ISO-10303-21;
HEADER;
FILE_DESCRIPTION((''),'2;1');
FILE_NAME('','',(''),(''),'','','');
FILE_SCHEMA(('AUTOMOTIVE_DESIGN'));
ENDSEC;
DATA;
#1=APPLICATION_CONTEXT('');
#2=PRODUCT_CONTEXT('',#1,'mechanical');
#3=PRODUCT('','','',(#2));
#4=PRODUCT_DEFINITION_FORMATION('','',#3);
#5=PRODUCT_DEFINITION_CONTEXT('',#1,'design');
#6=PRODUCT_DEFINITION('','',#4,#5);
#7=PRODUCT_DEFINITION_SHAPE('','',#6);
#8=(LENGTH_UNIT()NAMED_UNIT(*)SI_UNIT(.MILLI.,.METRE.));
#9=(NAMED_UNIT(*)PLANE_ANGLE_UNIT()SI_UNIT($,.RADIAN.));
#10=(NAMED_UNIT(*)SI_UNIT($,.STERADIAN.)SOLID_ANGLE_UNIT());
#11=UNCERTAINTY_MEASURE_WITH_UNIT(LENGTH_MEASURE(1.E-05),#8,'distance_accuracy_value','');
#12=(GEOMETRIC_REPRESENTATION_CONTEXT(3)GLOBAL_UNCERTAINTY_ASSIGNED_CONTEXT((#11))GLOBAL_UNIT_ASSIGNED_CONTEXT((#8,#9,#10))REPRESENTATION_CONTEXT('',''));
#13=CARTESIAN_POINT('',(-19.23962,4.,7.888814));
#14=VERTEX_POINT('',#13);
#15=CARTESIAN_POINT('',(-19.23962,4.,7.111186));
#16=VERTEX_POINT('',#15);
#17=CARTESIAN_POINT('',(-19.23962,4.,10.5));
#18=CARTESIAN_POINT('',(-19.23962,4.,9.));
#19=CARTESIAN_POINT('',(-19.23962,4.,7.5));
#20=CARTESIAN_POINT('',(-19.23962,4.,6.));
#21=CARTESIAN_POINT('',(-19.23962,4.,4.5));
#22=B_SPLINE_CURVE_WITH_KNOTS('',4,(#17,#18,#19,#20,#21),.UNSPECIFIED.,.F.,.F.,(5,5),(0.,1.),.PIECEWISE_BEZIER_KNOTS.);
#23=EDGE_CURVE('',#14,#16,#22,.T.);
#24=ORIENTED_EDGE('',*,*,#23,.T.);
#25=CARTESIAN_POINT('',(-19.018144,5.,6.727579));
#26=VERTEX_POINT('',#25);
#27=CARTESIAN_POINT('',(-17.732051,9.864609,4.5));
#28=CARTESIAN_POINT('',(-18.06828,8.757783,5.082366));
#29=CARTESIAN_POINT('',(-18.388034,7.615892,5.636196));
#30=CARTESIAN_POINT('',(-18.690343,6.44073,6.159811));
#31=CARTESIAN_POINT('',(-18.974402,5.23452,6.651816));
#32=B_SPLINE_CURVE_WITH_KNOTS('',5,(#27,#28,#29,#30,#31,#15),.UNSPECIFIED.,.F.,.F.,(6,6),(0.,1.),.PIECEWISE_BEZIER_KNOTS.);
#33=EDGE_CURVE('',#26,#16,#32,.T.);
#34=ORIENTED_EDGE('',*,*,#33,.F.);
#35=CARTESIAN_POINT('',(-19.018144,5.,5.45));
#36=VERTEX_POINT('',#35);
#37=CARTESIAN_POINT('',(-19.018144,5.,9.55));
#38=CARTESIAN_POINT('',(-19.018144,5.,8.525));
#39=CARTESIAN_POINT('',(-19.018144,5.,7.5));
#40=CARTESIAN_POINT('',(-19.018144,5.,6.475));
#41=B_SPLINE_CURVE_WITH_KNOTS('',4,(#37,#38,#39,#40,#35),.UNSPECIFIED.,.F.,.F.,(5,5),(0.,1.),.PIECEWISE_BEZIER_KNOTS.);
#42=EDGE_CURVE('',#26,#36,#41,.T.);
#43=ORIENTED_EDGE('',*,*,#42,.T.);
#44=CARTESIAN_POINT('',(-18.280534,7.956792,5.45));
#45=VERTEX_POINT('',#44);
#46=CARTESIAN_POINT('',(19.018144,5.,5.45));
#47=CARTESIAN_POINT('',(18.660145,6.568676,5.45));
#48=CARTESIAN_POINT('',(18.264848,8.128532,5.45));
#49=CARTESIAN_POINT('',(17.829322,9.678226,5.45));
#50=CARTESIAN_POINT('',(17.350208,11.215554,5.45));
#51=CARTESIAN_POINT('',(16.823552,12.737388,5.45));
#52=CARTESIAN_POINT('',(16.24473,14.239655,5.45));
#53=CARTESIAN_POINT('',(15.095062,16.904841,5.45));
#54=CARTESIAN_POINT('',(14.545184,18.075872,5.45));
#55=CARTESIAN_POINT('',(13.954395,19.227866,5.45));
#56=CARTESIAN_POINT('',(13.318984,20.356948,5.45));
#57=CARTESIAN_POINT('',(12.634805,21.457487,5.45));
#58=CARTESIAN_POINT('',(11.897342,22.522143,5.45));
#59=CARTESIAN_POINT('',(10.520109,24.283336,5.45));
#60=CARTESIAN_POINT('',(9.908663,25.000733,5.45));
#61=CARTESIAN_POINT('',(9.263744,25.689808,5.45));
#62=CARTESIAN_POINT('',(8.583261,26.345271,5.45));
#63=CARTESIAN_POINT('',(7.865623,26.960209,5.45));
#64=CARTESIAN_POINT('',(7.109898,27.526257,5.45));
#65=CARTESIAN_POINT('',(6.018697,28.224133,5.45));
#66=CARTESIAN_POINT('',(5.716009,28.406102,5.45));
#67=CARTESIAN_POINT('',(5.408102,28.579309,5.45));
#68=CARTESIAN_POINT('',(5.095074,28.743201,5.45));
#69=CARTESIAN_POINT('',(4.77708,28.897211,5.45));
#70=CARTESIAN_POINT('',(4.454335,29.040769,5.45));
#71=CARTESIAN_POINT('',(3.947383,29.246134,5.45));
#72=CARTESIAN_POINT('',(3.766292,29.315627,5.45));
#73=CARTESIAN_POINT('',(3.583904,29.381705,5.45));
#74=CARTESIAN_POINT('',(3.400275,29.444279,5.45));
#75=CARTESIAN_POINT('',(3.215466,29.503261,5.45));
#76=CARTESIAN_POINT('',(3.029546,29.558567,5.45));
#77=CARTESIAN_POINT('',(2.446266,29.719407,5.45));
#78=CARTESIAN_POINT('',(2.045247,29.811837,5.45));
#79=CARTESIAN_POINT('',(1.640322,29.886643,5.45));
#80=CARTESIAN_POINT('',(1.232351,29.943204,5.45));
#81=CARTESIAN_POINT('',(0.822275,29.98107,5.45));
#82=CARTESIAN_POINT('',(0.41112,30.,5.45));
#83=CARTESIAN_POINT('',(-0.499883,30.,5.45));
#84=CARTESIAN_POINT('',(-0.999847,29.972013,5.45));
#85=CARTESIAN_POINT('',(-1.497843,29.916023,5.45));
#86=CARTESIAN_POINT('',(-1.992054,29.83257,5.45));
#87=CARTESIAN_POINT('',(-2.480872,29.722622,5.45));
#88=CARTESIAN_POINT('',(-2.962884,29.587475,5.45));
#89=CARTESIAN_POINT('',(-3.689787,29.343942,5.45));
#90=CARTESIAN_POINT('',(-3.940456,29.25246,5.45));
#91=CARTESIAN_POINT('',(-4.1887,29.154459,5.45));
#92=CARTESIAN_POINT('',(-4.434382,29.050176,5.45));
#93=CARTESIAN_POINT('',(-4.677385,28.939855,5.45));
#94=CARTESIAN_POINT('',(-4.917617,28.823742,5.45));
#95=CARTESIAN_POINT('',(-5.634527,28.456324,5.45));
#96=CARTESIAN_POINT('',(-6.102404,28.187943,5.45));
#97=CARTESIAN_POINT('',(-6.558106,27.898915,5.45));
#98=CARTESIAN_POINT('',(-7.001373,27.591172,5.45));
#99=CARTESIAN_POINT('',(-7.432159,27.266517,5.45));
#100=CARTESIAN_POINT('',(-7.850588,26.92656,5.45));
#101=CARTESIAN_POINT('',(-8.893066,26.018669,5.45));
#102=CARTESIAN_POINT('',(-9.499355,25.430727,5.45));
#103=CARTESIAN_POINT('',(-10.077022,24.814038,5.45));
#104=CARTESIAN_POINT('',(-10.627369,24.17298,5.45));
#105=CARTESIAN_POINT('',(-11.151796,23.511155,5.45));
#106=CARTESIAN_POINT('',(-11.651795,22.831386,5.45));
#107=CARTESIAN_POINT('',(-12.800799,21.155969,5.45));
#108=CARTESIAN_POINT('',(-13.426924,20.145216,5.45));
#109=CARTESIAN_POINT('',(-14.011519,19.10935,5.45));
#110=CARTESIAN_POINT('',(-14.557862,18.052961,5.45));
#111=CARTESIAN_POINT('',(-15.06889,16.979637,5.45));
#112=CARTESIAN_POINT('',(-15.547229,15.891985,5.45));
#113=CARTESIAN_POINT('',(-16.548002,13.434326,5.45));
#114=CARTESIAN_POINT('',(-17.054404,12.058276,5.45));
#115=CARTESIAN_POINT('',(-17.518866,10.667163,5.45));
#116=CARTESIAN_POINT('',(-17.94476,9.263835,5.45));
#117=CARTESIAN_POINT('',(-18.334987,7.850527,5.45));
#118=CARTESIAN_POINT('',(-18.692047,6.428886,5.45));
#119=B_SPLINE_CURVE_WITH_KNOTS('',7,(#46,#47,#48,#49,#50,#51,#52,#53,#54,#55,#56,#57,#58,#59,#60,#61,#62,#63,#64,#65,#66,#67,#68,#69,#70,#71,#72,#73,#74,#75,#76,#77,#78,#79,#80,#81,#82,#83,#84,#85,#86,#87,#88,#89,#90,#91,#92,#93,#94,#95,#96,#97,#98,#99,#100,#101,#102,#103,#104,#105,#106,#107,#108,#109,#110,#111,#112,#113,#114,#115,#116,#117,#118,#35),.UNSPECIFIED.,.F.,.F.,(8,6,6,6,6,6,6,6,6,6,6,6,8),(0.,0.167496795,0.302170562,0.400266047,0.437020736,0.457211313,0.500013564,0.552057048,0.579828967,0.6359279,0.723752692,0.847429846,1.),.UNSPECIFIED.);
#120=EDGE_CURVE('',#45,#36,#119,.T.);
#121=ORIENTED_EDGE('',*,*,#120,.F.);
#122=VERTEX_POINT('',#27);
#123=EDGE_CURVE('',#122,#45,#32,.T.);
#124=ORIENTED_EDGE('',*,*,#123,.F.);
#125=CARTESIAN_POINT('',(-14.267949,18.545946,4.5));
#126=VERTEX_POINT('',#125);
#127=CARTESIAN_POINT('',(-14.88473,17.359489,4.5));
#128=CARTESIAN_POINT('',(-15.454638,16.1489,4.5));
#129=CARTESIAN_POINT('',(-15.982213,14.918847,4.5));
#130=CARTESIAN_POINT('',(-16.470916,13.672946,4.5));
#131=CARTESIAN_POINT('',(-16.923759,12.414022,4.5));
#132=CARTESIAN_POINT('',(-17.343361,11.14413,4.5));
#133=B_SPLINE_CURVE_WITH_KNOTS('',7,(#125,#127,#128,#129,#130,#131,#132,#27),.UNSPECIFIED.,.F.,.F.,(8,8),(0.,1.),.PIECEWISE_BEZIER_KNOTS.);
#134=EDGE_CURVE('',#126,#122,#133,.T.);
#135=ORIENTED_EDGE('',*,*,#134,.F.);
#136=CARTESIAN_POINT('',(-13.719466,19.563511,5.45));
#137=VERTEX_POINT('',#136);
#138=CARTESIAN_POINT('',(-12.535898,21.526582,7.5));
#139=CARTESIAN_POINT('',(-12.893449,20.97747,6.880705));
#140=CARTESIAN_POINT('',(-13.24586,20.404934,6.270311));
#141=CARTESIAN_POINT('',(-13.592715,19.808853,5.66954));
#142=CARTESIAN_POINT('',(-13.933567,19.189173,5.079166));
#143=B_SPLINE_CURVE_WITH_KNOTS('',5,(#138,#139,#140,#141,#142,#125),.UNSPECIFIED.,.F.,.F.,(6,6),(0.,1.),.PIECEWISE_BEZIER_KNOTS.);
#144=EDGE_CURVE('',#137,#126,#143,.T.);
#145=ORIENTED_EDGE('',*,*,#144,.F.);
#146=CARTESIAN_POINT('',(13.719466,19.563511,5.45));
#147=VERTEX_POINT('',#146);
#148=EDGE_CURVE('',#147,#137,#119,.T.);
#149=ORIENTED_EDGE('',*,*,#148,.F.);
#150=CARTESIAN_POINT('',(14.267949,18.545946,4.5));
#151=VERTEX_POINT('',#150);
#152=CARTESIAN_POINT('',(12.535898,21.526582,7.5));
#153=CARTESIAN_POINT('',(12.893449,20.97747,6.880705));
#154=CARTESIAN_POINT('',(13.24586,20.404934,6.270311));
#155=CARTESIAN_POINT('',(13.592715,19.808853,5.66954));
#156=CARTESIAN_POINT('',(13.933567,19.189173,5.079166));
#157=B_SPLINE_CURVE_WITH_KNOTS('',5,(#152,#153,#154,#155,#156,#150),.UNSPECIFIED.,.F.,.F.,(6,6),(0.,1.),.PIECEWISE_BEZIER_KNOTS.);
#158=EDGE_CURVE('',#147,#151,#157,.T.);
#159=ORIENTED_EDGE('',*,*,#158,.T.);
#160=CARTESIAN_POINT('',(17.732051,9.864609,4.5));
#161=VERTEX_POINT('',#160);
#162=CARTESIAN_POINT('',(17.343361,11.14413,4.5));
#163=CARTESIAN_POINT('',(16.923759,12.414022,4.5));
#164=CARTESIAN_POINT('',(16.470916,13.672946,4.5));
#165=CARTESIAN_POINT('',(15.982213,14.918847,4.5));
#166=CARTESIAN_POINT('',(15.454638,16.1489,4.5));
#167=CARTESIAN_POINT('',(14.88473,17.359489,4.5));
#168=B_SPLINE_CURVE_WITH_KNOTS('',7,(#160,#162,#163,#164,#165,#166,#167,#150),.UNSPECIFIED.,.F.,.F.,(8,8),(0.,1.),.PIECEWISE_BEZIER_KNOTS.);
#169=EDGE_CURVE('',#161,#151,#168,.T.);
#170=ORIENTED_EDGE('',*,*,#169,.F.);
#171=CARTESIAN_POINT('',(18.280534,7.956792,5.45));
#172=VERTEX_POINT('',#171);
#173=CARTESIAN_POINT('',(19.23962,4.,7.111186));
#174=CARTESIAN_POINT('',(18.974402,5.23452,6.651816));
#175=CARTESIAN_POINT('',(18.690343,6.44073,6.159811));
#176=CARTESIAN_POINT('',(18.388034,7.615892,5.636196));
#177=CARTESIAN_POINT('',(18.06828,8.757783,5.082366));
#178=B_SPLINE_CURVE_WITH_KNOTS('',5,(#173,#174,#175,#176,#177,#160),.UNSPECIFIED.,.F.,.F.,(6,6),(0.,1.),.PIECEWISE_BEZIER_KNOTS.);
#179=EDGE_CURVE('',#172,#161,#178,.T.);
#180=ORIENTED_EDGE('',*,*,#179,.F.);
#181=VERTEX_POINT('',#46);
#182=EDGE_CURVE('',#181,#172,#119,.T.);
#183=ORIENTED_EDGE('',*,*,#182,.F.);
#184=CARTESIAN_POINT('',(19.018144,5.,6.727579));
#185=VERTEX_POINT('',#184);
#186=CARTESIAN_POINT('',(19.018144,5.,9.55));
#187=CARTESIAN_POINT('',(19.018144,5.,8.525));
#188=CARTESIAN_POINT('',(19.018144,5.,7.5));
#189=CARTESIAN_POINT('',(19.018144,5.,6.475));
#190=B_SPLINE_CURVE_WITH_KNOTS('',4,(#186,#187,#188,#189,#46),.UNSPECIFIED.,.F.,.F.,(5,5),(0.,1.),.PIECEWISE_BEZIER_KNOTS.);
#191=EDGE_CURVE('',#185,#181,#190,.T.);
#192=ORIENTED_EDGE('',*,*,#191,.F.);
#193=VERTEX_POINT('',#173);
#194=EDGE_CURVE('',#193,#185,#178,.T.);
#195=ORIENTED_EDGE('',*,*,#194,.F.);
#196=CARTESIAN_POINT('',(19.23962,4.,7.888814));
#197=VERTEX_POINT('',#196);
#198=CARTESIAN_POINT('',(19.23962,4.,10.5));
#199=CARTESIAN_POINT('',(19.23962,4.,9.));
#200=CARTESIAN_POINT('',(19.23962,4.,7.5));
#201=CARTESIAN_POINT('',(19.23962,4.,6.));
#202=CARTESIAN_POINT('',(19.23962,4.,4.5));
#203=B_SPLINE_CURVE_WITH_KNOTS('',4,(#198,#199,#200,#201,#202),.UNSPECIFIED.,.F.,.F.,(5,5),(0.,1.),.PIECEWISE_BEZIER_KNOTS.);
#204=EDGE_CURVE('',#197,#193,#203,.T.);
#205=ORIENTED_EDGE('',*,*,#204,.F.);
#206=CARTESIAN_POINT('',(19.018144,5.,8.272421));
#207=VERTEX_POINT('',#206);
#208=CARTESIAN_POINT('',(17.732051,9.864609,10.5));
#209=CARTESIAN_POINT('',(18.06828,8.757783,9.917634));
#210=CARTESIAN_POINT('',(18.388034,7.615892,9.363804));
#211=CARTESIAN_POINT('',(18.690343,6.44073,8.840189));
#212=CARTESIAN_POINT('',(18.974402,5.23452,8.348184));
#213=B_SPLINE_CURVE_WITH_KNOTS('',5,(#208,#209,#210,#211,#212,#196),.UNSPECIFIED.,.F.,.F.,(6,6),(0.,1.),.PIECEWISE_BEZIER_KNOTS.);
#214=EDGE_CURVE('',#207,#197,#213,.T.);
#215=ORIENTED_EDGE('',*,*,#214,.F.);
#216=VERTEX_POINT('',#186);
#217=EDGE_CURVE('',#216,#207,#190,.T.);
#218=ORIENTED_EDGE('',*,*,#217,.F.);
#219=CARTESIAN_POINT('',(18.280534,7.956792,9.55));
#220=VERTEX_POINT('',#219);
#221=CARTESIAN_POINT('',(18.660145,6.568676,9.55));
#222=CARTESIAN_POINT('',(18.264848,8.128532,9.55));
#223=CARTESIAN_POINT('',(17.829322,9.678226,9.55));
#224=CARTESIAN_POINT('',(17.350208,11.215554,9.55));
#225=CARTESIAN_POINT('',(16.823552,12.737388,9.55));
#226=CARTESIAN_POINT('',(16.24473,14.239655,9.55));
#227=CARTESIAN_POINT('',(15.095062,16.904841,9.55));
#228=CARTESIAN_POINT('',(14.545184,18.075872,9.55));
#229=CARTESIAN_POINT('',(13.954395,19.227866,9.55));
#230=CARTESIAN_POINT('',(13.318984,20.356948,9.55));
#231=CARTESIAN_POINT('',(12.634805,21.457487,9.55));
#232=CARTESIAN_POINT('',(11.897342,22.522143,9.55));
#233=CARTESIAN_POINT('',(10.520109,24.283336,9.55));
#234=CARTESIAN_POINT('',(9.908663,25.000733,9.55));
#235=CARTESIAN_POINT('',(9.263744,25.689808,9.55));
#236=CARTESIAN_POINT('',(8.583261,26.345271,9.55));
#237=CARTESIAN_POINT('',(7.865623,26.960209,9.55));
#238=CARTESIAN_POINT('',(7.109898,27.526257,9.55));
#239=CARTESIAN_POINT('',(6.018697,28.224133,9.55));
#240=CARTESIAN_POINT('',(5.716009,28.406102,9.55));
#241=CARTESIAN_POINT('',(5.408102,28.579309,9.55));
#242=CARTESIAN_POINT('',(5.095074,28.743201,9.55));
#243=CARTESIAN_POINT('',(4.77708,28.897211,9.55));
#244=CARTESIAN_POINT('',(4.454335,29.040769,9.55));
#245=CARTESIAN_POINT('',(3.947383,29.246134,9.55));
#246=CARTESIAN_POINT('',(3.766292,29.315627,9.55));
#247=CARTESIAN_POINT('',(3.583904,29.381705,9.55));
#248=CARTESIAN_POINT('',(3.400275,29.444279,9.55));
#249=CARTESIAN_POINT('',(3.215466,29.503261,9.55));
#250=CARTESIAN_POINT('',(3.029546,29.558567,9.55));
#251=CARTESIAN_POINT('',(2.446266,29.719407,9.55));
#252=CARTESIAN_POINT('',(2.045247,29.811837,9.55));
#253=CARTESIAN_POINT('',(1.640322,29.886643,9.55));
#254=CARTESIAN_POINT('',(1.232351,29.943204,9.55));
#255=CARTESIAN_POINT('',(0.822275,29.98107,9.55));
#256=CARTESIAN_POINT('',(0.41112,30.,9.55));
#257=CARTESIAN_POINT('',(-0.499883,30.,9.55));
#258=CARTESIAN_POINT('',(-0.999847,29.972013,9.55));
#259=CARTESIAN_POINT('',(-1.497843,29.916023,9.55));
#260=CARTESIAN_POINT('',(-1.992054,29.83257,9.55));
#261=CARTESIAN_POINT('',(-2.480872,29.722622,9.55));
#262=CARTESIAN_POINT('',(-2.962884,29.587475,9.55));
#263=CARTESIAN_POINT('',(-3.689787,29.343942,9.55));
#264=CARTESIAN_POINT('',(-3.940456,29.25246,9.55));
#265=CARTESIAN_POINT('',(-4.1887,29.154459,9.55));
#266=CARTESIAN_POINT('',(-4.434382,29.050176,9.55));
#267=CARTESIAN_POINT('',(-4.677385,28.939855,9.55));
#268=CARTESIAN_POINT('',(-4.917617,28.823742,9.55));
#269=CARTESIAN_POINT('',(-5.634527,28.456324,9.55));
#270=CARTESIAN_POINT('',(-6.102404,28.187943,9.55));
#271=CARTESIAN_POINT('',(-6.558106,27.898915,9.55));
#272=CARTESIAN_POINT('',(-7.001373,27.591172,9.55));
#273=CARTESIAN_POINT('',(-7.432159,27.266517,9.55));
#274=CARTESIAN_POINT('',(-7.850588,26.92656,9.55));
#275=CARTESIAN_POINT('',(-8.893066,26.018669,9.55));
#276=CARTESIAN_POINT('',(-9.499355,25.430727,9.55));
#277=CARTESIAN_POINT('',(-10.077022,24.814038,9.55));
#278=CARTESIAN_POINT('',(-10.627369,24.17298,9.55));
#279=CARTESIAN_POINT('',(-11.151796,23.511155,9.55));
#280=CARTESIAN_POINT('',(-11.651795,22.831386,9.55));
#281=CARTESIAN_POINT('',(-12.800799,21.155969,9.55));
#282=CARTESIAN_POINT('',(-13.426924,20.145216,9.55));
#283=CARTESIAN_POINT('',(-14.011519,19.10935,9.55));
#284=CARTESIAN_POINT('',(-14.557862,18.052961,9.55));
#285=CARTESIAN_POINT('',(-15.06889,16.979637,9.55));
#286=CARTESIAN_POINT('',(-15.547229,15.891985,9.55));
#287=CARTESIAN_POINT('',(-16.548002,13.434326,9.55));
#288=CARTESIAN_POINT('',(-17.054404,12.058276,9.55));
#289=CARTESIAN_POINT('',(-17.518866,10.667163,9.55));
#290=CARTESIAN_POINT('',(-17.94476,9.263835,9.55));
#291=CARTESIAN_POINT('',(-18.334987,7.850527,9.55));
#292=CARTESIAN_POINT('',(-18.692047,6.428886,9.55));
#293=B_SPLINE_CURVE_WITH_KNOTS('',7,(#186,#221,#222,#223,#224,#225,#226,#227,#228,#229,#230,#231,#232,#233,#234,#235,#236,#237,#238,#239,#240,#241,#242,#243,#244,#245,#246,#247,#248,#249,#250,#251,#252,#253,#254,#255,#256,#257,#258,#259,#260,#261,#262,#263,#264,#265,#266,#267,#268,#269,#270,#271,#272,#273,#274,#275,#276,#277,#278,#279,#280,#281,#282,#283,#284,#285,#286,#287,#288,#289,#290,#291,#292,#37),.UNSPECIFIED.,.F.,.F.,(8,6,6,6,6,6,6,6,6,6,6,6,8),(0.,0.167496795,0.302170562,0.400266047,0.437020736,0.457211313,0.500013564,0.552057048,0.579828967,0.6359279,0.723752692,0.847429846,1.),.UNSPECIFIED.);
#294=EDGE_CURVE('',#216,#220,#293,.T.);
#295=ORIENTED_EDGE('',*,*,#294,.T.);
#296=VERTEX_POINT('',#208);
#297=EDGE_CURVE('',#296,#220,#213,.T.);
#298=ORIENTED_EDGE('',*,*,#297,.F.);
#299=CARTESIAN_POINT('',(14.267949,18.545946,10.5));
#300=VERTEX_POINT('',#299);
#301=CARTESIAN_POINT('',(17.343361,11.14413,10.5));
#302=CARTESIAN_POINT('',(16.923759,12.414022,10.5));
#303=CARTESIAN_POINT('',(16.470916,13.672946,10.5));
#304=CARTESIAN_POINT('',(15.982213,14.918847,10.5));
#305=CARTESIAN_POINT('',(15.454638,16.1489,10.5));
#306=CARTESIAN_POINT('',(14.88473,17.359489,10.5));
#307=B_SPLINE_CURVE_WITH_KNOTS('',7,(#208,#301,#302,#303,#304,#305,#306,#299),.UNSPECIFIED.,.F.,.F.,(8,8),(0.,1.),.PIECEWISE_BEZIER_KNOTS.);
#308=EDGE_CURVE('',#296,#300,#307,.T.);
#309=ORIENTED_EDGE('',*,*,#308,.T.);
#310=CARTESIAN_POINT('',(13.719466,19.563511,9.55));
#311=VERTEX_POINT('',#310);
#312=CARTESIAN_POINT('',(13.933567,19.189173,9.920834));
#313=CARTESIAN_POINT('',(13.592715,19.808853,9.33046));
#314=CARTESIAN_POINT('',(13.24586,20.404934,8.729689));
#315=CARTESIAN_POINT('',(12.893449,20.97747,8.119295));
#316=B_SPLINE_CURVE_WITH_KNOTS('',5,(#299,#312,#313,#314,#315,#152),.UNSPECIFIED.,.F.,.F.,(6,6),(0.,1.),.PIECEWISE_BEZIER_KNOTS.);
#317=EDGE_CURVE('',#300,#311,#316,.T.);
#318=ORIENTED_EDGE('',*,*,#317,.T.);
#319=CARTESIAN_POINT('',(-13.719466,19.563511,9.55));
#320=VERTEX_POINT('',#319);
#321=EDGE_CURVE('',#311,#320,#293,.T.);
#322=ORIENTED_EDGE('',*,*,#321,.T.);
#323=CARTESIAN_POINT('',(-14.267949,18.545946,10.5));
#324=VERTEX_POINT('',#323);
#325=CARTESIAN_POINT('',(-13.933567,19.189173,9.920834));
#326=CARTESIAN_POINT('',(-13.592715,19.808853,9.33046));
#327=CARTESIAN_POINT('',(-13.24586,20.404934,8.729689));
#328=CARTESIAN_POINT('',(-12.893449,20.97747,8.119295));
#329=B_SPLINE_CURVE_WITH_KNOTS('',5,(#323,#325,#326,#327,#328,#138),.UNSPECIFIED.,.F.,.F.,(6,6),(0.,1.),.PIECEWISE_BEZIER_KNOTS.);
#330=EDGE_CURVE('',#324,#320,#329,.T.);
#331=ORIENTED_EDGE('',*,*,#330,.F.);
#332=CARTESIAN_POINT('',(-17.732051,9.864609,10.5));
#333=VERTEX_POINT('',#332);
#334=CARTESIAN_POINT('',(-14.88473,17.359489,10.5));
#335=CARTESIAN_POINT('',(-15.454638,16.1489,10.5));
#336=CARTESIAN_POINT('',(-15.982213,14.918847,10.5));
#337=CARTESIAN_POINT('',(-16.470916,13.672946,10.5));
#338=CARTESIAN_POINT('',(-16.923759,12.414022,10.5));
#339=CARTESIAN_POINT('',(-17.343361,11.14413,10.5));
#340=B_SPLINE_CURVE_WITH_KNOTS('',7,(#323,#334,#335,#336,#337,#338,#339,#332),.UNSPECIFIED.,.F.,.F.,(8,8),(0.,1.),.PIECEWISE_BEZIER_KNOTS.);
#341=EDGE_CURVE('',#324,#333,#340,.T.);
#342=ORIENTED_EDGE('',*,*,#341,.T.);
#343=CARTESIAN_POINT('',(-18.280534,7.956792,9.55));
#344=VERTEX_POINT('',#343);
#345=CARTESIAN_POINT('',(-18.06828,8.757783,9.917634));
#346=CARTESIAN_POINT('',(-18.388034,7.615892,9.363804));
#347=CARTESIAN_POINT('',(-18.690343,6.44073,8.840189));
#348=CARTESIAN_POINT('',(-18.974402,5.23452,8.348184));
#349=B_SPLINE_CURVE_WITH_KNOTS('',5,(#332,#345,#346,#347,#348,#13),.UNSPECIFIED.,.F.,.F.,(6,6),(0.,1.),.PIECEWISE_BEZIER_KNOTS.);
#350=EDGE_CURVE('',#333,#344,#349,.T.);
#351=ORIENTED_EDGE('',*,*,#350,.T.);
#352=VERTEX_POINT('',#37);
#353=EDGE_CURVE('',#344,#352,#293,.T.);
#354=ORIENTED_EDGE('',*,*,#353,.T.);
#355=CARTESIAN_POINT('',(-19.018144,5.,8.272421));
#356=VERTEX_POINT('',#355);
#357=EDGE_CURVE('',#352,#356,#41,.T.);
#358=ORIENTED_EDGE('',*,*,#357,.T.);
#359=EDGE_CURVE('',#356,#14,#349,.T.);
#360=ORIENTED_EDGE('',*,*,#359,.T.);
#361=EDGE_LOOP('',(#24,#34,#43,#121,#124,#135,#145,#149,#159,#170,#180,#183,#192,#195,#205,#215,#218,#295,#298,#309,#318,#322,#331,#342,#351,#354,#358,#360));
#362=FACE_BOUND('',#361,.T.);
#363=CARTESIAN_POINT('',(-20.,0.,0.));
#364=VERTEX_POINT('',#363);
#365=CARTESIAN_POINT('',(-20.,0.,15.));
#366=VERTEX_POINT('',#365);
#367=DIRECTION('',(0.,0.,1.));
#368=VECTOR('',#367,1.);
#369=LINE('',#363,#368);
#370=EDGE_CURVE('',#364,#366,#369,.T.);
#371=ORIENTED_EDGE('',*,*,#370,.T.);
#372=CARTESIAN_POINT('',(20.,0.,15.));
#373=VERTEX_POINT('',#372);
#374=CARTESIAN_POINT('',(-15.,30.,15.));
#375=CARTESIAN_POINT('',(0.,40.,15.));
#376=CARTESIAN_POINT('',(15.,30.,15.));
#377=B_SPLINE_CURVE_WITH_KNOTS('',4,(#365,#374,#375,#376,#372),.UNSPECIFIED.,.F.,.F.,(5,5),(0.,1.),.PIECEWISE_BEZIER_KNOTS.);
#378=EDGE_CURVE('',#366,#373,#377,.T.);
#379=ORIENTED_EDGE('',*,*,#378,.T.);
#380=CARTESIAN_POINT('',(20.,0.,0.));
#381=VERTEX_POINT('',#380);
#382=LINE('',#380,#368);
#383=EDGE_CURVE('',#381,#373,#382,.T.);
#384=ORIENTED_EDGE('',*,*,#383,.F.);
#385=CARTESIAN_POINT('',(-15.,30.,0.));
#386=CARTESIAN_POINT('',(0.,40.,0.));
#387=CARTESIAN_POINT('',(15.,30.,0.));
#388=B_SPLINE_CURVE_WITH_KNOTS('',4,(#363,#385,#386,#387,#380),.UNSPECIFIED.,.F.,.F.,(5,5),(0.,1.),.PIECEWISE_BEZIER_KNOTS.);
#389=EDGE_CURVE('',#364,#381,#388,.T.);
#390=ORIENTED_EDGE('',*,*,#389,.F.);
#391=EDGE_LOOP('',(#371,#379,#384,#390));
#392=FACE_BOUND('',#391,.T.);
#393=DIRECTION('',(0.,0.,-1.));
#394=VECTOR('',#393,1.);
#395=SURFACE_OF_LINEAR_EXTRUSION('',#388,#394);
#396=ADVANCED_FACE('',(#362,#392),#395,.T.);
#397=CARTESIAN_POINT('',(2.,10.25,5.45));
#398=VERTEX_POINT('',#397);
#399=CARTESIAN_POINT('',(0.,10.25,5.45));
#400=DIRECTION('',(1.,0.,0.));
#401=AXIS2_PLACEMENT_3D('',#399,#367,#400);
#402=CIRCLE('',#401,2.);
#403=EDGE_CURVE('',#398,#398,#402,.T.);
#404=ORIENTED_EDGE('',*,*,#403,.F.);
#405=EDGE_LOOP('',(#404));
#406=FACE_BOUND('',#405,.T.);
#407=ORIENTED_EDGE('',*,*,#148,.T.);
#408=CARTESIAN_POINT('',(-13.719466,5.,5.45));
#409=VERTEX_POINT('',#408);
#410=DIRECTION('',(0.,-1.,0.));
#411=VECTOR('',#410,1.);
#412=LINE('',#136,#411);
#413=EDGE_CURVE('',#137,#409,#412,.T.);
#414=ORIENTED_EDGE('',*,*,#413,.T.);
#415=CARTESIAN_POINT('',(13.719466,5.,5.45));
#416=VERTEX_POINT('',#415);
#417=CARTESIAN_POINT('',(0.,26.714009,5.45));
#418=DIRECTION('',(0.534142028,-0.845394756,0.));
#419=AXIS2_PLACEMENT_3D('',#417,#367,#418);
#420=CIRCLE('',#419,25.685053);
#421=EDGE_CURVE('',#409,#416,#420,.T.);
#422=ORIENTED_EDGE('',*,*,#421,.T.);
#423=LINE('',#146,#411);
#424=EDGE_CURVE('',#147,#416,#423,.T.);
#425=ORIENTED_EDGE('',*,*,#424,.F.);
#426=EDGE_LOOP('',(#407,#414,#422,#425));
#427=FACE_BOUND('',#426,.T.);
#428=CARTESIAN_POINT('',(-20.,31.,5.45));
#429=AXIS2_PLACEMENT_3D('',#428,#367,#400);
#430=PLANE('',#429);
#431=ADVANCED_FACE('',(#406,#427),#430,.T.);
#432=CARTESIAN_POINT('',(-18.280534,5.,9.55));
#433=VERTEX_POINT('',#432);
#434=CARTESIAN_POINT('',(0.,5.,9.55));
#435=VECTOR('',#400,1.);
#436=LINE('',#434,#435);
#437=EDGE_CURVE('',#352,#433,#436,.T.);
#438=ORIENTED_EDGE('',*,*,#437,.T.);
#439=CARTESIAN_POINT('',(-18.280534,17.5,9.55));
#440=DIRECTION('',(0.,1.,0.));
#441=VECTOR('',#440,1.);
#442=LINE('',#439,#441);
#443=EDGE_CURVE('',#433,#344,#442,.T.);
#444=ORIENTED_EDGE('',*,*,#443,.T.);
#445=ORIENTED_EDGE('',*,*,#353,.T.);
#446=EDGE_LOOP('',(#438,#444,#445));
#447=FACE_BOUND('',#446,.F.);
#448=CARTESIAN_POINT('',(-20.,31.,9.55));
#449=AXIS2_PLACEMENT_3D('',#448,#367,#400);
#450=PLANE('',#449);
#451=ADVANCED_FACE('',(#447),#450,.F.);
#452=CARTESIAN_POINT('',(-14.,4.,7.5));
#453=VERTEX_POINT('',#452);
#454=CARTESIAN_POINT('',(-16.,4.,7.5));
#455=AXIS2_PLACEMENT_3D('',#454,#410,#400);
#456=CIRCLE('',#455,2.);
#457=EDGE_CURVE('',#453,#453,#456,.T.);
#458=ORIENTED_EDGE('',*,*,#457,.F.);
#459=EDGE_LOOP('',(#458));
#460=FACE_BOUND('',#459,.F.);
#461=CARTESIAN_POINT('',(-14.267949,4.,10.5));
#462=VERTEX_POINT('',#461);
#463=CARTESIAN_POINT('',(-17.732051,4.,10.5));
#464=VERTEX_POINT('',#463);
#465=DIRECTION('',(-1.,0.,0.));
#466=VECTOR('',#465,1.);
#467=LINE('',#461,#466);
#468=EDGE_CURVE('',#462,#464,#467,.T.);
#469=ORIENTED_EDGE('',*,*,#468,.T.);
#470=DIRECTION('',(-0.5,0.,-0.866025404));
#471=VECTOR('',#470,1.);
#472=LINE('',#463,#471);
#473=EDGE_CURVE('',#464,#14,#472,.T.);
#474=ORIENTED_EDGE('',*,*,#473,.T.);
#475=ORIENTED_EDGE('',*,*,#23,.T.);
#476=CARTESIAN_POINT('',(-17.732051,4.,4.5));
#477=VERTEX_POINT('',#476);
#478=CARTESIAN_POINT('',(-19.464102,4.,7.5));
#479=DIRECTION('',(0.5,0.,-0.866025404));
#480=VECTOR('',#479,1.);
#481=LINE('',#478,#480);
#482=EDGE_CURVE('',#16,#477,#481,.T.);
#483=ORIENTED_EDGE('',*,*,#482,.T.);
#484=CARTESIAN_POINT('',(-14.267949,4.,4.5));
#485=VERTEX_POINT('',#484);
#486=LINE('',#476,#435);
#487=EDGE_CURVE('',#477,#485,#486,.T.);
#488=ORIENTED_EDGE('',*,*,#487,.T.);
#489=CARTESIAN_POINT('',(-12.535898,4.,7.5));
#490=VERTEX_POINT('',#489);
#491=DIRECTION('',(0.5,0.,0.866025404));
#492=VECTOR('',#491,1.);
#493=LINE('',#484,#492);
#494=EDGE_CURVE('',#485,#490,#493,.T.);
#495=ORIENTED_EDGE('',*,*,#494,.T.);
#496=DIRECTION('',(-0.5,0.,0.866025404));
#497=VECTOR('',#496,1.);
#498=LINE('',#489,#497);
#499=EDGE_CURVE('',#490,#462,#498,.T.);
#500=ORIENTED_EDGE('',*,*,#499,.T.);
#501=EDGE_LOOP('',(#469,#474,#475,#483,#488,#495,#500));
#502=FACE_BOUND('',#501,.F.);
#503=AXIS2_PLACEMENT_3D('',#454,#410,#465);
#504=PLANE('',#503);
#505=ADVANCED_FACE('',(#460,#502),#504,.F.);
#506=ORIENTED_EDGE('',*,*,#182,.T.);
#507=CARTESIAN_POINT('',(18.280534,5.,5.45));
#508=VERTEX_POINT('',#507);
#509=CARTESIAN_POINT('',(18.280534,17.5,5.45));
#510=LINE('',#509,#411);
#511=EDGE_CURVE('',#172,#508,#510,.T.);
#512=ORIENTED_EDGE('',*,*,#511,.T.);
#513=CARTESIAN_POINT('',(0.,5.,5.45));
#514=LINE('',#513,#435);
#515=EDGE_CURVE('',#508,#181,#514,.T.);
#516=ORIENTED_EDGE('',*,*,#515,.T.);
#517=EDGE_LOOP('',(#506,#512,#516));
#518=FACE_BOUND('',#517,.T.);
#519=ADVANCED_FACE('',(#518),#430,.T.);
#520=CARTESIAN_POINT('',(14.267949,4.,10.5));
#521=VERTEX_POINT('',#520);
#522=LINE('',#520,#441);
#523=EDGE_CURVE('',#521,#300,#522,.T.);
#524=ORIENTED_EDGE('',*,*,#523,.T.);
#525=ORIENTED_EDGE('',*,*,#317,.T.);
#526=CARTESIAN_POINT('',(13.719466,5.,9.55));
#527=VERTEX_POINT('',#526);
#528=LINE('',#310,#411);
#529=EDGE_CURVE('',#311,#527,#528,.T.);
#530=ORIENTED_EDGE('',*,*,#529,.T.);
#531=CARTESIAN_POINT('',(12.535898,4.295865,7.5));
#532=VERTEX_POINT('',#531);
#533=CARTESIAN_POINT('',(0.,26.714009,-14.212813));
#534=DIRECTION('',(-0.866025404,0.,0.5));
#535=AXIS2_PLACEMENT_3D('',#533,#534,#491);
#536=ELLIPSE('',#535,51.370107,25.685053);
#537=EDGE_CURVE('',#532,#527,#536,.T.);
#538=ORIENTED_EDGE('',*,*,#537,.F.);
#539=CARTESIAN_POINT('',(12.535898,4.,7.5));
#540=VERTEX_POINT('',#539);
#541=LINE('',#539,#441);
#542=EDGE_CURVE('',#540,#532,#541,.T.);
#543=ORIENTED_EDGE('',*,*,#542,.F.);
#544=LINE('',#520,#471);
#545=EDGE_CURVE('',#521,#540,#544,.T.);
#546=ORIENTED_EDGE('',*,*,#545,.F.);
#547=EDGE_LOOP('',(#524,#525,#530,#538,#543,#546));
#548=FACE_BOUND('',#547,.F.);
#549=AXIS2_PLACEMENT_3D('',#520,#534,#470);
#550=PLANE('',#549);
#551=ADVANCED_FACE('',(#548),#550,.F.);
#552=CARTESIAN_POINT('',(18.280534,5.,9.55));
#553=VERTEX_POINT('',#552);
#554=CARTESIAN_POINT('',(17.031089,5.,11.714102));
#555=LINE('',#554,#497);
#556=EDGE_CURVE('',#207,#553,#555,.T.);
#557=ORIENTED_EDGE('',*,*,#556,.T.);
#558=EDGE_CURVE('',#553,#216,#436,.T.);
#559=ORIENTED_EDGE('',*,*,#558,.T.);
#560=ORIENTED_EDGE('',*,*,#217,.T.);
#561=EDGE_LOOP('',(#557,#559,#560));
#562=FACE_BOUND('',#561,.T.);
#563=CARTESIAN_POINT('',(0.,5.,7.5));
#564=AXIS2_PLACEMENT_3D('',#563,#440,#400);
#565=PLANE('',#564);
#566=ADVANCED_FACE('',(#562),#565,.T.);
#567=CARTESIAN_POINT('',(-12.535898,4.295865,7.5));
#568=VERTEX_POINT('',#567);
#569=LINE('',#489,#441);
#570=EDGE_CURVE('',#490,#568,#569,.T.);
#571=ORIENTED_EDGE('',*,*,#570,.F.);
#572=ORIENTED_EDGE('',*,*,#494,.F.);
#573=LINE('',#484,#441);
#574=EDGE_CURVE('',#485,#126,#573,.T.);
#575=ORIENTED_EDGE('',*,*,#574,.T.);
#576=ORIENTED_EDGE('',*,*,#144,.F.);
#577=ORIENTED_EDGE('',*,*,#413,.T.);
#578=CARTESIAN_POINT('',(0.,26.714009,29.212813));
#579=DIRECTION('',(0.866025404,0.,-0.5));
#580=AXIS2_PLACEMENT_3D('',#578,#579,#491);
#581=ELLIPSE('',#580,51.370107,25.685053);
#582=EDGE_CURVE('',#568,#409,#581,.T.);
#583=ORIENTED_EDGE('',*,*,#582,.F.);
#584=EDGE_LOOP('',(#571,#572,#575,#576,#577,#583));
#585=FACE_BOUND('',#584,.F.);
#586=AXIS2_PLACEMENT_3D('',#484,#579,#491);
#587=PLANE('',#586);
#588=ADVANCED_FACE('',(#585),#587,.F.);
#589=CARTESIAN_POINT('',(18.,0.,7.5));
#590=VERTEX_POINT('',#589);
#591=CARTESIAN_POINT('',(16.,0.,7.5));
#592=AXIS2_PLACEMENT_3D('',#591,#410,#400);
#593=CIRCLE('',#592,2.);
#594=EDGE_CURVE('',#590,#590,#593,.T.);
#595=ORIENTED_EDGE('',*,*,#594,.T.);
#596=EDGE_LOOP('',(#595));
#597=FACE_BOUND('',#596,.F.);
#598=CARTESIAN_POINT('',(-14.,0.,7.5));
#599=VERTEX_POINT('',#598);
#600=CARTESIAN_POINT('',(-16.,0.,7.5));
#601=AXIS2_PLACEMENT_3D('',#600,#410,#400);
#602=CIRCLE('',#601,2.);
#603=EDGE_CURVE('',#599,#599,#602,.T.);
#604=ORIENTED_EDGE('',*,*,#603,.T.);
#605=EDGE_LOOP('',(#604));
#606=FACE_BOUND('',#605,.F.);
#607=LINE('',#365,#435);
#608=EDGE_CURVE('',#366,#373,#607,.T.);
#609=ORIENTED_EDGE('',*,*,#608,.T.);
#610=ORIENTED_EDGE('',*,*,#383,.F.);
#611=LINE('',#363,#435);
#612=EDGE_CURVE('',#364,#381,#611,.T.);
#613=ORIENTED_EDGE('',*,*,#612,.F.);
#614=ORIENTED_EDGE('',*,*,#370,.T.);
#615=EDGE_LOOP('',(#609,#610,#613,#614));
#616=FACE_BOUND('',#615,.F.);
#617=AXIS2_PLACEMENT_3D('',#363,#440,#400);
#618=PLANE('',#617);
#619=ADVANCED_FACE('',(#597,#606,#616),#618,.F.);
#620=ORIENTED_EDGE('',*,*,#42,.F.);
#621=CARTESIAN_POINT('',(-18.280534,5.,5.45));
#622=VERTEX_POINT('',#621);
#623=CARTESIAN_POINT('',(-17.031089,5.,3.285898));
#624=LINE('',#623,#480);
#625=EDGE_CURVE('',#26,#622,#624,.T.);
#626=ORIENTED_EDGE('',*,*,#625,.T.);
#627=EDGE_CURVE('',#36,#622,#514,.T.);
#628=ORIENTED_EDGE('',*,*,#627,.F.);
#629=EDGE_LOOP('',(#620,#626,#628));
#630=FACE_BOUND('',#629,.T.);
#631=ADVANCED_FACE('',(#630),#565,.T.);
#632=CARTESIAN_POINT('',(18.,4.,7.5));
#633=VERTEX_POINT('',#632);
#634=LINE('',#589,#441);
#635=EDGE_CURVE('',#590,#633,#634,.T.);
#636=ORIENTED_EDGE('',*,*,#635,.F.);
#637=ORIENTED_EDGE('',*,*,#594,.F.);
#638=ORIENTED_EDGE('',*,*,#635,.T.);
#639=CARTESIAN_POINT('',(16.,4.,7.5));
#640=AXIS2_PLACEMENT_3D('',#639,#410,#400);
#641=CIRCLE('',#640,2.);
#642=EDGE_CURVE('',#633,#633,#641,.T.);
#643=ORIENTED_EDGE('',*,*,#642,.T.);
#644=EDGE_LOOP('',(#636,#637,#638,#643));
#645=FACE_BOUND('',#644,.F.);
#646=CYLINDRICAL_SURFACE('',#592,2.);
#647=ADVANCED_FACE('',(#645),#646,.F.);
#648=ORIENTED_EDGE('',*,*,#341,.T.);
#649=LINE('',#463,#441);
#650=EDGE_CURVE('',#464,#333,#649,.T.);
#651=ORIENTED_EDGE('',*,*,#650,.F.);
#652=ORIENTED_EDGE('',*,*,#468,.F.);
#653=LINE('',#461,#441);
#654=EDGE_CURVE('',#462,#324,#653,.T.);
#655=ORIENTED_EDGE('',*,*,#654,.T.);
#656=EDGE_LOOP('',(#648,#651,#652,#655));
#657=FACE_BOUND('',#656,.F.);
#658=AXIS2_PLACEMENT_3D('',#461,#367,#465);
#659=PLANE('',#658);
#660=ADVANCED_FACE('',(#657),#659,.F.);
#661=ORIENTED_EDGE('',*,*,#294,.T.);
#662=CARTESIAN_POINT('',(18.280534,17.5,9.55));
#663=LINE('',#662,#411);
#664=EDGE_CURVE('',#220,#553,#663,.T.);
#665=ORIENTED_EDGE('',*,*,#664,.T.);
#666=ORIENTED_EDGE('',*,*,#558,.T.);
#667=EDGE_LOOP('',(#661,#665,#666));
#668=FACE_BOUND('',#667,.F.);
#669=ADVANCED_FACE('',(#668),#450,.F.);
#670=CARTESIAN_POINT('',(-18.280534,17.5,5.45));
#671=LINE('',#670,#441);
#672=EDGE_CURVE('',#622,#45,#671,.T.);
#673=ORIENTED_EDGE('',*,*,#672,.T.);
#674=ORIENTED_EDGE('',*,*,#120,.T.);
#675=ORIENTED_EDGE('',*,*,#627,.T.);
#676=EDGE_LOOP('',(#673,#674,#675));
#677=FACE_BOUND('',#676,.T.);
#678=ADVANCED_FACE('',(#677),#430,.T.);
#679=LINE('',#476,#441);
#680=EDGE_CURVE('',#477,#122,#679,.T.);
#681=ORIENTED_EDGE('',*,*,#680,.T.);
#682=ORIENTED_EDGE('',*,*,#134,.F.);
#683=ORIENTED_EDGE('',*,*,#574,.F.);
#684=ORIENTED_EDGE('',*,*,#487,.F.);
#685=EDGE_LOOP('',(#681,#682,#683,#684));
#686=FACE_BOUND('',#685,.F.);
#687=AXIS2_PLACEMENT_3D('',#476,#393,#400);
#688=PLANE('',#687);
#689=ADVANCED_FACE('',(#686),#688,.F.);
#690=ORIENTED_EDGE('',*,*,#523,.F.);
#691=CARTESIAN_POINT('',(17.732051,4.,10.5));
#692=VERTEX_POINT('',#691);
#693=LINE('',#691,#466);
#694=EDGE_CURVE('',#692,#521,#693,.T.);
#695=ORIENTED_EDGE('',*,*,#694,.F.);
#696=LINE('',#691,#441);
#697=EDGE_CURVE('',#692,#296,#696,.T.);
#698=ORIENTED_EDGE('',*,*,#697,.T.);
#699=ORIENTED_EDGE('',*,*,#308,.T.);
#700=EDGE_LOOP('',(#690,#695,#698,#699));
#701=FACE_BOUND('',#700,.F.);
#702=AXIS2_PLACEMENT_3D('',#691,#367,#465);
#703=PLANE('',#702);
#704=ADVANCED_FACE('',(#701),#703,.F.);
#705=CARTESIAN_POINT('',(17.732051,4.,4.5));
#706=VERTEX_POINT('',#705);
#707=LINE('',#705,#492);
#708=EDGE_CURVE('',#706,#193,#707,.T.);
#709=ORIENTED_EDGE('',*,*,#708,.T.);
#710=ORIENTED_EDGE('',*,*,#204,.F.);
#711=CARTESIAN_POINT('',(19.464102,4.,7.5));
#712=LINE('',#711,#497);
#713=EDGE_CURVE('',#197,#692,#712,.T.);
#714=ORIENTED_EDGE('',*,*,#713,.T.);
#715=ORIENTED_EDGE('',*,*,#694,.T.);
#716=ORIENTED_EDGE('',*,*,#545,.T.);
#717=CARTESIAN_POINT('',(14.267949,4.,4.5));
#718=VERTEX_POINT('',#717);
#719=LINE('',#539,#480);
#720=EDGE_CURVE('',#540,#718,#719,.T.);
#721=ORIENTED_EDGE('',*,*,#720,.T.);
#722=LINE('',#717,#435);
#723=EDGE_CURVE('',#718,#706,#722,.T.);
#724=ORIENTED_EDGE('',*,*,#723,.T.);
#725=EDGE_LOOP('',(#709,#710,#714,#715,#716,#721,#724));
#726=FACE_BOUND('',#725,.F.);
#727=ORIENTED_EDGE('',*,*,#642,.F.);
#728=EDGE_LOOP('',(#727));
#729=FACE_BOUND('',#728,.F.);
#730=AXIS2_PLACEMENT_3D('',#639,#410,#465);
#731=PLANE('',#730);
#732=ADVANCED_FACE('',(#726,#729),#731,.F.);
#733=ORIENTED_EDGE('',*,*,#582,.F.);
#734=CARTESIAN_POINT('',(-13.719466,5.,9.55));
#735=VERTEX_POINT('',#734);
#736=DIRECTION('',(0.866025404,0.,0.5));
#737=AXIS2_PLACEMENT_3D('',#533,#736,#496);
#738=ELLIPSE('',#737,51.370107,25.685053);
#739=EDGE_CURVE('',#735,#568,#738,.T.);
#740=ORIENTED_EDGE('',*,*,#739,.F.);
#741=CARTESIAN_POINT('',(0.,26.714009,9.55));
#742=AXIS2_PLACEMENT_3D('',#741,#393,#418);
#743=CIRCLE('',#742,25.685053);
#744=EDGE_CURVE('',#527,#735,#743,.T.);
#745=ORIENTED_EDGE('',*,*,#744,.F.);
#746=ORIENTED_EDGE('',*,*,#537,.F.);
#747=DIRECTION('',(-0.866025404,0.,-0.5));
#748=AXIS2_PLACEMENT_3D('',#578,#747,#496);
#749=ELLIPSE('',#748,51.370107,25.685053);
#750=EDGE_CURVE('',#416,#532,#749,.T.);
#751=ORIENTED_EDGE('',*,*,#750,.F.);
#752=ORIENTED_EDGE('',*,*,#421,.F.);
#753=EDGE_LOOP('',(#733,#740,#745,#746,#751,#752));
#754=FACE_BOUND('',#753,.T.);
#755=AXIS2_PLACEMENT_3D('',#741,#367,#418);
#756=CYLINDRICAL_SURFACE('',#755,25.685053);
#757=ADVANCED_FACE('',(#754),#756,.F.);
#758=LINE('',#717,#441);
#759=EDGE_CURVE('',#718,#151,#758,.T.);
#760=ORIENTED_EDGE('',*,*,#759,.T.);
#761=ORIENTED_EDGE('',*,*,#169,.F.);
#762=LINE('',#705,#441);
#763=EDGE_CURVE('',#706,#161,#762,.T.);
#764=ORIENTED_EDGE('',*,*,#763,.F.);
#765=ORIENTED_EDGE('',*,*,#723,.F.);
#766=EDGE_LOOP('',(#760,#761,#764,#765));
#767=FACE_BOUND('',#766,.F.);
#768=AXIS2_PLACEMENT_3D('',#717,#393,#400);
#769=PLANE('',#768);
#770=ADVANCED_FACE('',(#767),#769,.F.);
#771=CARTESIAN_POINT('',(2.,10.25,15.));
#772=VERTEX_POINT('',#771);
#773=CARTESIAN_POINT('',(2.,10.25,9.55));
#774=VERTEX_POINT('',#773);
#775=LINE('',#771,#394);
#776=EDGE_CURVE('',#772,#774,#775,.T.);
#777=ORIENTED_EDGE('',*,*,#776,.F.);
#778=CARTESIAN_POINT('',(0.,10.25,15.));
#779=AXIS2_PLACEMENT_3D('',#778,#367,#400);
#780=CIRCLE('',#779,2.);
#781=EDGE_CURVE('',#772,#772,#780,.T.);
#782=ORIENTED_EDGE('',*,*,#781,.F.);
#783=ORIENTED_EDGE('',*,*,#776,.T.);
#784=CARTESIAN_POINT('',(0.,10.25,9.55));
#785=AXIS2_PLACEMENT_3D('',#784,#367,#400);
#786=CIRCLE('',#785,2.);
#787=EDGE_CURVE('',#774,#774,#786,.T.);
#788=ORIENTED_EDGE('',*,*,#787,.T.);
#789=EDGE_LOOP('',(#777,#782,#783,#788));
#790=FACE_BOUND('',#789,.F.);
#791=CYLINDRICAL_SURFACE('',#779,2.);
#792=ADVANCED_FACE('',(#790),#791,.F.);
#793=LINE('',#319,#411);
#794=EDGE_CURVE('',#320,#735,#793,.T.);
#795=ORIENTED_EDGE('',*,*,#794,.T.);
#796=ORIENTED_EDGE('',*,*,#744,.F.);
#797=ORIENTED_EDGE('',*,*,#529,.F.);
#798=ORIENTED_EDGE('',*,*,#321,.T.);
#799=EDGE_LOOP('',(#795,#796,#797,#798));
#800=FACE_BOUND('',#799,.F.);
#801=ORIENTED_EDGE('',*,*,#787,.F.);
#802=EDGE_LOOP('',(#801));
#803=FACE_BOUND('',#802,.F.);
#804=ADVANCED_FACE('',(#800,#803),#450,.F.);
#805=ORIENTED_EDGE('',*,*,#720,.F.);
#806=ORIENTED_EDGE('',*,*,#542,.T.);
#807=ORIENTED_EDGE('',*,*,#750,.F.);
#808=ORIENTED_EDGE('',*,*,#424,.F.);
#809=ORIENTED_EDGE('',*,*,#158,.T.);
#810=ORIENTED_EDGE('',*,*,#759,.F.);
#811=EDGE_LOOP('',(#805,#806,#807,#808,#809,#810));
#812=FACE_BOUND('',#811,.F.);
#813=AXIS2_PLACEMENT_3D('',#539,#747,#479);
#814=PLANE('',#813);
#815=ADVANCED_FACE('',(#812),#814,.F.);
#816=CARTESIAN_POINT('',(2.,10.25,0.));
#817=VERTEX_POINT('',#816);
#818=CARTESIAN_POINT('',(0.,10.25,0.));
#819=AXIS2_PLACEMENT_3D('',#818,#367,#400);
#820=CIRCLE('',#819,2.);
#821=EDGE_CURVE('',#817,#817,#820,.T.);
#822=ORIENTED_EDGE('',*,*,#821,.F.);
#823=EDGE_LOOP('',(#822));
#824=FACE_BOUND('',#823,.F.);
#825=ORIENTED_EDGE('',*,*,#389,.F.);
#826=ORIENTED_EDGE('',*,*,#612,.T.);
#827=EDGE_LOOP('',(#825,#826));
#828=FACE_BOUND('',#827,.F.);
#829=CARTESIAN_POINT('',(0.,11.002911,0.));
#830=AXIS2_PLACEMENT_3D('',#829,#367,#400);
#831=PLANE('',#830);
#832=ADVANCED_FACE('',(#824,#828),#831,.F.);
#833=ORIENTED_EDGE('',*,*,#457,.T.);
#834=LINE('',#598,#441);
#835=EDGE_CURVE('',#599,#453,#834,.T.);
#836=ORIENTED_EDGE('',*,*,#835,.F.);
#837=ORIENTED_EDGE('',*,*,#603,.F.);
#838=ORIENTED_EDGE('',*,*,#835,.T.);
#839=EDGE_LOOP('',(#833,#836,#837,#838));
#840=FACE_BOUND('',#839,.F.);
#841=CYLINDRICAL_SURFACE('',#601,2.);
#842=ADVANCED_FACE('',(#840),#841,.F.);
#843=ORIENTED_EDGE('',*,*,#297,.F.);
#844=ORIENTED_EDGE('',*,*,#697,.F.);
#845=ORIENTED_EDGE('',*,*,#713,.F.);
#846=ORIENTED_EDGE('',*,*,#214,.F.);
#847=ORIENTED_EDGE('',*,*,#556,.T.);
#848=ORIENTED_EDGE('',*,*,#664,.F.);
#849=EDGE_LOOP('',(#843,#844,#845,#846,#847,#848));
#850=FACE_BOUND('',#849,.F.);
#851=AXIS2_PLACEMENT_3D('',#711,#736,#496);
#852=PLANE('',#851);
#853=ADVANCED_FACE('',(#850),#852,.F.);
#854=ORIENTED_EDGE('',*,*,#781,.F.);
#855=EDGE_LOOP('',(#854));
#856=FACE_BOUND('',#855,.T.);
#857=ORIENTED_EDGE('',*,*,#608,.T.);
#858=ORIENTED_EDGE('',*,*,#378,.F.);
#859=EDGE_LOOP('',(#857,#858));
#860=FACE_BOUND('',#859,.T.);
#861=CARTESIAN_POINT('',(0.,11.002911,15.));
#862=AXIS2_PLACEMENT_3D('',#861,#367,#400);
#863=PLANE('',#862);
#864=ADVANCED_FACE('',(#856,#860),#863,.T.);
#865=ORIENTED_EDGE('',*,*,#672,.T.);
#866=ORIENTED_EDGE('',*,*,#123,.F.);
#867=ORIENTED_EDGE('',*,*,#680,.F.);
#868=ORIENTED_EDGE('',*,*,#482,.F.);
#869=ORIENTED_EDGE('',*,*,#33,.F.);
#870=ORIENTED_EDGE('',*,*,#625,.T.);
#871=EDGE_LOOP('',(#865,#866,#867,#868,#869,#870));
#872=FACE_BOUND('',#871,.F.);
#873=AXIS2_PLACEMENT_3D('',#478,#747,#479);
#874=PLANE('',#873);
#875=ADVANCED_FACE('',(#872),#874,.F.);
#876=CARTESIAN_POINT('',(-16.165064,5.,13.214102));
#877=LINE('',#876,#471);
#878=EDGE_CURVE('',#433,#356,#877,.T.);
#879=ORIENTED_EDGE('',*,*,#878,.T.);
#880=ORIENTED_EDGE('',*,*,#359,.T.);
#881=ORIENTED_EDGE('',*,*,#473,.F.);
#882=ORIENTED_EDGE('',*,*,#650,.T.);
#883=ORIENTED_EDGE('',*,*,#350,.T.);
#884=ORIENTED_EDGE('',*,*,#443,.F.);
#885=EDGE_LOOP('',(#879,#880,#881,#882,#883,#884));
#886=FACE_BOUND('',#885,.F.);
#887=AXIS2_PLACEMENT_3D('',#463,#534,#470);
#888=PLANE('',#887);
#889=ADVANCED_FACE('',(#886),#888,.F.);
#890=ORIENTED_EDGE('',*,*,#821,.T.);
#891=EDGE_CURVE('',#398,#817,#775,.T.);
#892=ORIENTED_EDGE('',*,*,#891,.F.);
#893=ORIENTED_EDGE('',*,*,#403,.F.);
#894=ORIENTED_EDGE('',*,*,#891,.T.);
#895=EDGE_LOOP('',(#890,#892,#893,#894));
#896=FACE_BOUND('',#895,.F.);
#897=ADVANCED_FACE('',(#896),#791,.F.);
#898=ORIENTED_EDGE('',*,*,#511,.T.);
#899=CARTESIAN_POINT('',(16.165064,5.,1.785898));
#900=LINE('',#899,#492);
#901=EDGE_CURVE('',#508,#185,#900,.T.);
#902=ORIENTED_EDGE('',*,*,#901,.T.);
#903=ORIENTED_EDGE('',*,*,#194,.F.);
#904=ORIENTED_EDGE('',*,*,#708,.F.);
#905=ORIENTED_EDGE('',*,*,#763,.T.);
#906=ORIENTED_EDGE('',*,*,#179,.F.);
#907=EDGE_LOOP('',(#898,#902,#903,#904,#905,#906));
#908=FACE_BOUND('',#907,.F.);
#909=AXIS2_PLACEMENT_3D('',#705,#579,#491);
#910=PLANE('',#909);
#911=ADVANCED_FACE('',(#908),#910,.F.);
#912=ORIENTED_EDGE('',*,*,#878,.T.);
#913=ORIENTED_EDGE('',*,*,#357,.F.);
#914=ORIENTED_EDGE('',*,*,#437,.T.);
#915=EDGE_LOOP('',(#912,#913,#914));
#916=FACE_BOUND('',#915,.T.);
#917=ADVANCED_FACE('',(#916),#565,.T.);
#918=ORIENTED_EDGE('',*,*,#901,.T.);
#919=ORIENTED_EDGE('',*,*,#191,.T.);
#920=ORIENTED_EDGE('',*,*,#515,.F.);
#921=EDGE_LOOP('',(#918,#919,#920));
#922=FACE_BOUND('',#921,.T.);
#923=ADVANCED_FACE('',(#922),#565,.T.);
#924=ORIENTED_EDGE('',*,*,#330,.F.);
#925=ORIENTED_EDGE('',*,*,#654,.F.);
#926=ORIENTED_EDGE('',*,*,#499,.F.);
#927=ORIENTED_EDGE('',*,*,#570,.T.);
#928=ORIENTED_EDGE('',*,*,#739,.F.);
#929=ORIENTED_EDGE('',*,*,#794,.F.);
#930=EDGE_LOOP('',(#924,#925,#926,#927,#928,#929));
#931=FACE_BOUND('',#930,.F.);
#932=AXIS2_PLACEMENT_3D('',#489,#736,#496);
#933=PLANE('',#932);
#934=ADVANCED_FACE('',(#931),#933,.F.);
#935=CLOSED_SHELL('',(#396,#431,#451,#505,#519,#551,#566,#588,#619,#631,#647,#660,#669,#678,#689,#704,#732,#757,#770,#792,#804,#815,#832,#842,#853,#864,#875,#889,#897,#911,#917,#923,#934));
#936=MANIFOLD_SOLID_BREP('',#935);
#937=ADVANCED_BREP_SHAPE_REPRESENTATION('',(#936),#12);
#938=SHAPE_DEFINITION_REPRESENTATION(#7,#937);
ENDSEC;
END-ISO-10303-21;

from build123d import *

# Parameters (mm, degrees)
BOSS_EXTRUDE1_DEPTH = 15
CUT_EXTRUDE1_REACH  = 41.051
SKETCH2_R           = 2
CUT_EXTRUDE2_REACH  = 38.069
SKETCH4_R           = 2
CUT_EXTRUDE3_DEPTH  = 15
SKETCH5_W           = 40
SKETCH5_H           = 4.1
CUT_EXTRUDE4_DEPTH  = 26
CUT_EXTRUDE6_REACH  = 39.299


with BuildPart() as part:
    # Sketch1 → Boss-Extrude1 (new body)
    with BuildSketch(Plane.XY):
        with BuildLine():
            Line((-20, 0), (20, 0))
            add(Edge.make_bspline(
                [(-20, 0), (-15, 30), (0, 40), (15, 30), (20, 0)],
                knots=[0, 0, 0, 0, 0, 1, 1, 1, 1, 1], degree=4))
        make_face()
    extrude(amount=BOSS_EXTRUDE1_DEPTH)

    # Sketch2 → Cut-Extrude1 (cut, up to next)
    with BuildSketch(Plane.XZ, mode=Mode.PRIVATE) as cut_extrude1_sk1:
        with Locations((16, 7.5)):
            Circle(SKETCH2_R)
    cut_extrude1_tool1 = extrude(cut_extrude1_sk1.sketch, amount=-CUT_EXTRUDE1_REACH, mode=Mode.PRIVATE) & part.part
    # Sketch2 → Cut-Extrude1 (cut, up to next)
    with BuildSketch(Plane.XZ, mode=Mode.PRIVATE) as cut_extrude1_sk2:
        with Locations((-16, 7.5)):
            Circle(SKETCH2_R)
    cut_extrude1_tool2 = extrude(cut_extrude1_sk2.sketch, amount=-CUT_EXTRUDE1_REACH, mode=Mode.PRIVATE) & part.part
    add(cut_extrude1_tool1.solids().sort_by_distance((16, 0, 7.5))[0], mode=Mode.SUBTRACT)
    add(cut_extrude1_tool2.solids().sort_by_distance((-16, 0, 7.5))[0], mode=Mode.SUBTRACT)

    # Sketch3 → Cut-Extrude2 (cut, up to next)
    with BuildSketch(Plane(origin=(0, 4, 0), x_dir=(-1, 0, 0), z_dir=(0, -1, 0)), mode=Mode.PRIVATE) as cut_extrude2_sk1:
        Polygon((17.732050808, -4.5), (14.267949192, -4.5), (12.535898385, -7.5), (14.267949192, -10.5), (17.732050808, -10.5), (19.464101615, -7.5), align=None)
    cut_extrude2_tool1 = extrude(cut_extrude2_sk1.sketch, amount=-CUT_EXTRUDE2_REACH, mode=Mode.PRIVATE) & part.part
    # Sketch3 → Cut-Extrude2 (cut, up to next)
    with BuildSketch(Plane(origin=(0, 4, 0), x_dir=(-1, 0, 0), z_dir=(0, -1, 0)), mode=Mode.PRIVATE) as cut_extrude2_sk2:
        Polygon((-17.732050808, -4.5), (-19.464101615, -7.5), (-17.732050808, -10.5), (-14.267949192, -10.5), (-12.535898385, -7.5), (-14.267949192, -4.5), align=None)
    cut_extrude2_tool2 = extrude(cut_extrude2_sk2.sketch, amount=-CUT_EXTRUDE2_REACH, mode=Mode.PRIVATE) & part.part
    add(cut_extrude2_tool1.solids().sort_by_distance((-16, 4, 7.5))[0], mode=Mode.SUBTRACT)
    add(cut_extrude2_tool2.solids().sort_by_distance((16, 4, 7.5))[0], mode=Mode.SUBTRACT)

    # Sketch4 → Cut-Extrude3 (cut)
    with BuildSketch(Plane.XY.offset(15)):
        with Locations((0, 10.25)):
            Circle(SKETCH4_R)
    extrude(amount=-CUT_EXTRUDE3_DEPTH, mode=Mode.SUBTRACT)

    # Sketch5 → Cut-Extrude4 (cut)
    with BuildSketch(Plane(origin=(0, 31, 0), x_dir=(1, 0, 0), z_dir=(0, 1, 0))):
        with Locations((0, -7.5)):
            Rectangle(SKETCH5_W, SKETCH5_H)
    extrude(amount=-CUT_EXTRUDE4_DEPTH, mode=Mode.SUBTRACT)

    # Cut-Extrude6: up to this face of the body (flat: up to its plane)
    cut_extrude6_end = Plane(part.part.faces().sort_by_distance((3.91e-07, 16.202361225, 5.45))[0])
    # Sketch7 → Cut-Extrude6 (cut, up to the picked face)
    with BuildSketch(Plane(origin=(0, 0, 9.55), x_dir=(-1, 0, 0), z_dir=(0, 0, -1)), mode=Mode.PRIVATE) as cut_extrude6_sk1:
        with BuildLine():
            Line((13.719466437, 5), (13.719466437, 6.244656836))
            Line((13.719466437, 6.244656836), (-13.719466437, 6.244656836))
            Line((-13.719466437, 6.244656836), (-13.719466437, 5))
            ThreePointArc((-13.719466437, 5), (0, 1.028956083), (13.719466437, 5))
        make_face()
    cut_extrude6_tool1 = split(extrude(cut_extrude6_sk1.sketch, amount=CUT_EXTRUDE6_REACH, mode=Mode.PRIVATE), bisect_by=cut_extrude6_end, keep=Keep.BOTH, mode=Mode.PRIVATE)
    add(cut_extrude6_tool1.solids().sort_by(Axis((0, 4.103163, 9.55), (0, 0, -1)))[0], mode=Mode.SUBTRACT)


solid = part.part
